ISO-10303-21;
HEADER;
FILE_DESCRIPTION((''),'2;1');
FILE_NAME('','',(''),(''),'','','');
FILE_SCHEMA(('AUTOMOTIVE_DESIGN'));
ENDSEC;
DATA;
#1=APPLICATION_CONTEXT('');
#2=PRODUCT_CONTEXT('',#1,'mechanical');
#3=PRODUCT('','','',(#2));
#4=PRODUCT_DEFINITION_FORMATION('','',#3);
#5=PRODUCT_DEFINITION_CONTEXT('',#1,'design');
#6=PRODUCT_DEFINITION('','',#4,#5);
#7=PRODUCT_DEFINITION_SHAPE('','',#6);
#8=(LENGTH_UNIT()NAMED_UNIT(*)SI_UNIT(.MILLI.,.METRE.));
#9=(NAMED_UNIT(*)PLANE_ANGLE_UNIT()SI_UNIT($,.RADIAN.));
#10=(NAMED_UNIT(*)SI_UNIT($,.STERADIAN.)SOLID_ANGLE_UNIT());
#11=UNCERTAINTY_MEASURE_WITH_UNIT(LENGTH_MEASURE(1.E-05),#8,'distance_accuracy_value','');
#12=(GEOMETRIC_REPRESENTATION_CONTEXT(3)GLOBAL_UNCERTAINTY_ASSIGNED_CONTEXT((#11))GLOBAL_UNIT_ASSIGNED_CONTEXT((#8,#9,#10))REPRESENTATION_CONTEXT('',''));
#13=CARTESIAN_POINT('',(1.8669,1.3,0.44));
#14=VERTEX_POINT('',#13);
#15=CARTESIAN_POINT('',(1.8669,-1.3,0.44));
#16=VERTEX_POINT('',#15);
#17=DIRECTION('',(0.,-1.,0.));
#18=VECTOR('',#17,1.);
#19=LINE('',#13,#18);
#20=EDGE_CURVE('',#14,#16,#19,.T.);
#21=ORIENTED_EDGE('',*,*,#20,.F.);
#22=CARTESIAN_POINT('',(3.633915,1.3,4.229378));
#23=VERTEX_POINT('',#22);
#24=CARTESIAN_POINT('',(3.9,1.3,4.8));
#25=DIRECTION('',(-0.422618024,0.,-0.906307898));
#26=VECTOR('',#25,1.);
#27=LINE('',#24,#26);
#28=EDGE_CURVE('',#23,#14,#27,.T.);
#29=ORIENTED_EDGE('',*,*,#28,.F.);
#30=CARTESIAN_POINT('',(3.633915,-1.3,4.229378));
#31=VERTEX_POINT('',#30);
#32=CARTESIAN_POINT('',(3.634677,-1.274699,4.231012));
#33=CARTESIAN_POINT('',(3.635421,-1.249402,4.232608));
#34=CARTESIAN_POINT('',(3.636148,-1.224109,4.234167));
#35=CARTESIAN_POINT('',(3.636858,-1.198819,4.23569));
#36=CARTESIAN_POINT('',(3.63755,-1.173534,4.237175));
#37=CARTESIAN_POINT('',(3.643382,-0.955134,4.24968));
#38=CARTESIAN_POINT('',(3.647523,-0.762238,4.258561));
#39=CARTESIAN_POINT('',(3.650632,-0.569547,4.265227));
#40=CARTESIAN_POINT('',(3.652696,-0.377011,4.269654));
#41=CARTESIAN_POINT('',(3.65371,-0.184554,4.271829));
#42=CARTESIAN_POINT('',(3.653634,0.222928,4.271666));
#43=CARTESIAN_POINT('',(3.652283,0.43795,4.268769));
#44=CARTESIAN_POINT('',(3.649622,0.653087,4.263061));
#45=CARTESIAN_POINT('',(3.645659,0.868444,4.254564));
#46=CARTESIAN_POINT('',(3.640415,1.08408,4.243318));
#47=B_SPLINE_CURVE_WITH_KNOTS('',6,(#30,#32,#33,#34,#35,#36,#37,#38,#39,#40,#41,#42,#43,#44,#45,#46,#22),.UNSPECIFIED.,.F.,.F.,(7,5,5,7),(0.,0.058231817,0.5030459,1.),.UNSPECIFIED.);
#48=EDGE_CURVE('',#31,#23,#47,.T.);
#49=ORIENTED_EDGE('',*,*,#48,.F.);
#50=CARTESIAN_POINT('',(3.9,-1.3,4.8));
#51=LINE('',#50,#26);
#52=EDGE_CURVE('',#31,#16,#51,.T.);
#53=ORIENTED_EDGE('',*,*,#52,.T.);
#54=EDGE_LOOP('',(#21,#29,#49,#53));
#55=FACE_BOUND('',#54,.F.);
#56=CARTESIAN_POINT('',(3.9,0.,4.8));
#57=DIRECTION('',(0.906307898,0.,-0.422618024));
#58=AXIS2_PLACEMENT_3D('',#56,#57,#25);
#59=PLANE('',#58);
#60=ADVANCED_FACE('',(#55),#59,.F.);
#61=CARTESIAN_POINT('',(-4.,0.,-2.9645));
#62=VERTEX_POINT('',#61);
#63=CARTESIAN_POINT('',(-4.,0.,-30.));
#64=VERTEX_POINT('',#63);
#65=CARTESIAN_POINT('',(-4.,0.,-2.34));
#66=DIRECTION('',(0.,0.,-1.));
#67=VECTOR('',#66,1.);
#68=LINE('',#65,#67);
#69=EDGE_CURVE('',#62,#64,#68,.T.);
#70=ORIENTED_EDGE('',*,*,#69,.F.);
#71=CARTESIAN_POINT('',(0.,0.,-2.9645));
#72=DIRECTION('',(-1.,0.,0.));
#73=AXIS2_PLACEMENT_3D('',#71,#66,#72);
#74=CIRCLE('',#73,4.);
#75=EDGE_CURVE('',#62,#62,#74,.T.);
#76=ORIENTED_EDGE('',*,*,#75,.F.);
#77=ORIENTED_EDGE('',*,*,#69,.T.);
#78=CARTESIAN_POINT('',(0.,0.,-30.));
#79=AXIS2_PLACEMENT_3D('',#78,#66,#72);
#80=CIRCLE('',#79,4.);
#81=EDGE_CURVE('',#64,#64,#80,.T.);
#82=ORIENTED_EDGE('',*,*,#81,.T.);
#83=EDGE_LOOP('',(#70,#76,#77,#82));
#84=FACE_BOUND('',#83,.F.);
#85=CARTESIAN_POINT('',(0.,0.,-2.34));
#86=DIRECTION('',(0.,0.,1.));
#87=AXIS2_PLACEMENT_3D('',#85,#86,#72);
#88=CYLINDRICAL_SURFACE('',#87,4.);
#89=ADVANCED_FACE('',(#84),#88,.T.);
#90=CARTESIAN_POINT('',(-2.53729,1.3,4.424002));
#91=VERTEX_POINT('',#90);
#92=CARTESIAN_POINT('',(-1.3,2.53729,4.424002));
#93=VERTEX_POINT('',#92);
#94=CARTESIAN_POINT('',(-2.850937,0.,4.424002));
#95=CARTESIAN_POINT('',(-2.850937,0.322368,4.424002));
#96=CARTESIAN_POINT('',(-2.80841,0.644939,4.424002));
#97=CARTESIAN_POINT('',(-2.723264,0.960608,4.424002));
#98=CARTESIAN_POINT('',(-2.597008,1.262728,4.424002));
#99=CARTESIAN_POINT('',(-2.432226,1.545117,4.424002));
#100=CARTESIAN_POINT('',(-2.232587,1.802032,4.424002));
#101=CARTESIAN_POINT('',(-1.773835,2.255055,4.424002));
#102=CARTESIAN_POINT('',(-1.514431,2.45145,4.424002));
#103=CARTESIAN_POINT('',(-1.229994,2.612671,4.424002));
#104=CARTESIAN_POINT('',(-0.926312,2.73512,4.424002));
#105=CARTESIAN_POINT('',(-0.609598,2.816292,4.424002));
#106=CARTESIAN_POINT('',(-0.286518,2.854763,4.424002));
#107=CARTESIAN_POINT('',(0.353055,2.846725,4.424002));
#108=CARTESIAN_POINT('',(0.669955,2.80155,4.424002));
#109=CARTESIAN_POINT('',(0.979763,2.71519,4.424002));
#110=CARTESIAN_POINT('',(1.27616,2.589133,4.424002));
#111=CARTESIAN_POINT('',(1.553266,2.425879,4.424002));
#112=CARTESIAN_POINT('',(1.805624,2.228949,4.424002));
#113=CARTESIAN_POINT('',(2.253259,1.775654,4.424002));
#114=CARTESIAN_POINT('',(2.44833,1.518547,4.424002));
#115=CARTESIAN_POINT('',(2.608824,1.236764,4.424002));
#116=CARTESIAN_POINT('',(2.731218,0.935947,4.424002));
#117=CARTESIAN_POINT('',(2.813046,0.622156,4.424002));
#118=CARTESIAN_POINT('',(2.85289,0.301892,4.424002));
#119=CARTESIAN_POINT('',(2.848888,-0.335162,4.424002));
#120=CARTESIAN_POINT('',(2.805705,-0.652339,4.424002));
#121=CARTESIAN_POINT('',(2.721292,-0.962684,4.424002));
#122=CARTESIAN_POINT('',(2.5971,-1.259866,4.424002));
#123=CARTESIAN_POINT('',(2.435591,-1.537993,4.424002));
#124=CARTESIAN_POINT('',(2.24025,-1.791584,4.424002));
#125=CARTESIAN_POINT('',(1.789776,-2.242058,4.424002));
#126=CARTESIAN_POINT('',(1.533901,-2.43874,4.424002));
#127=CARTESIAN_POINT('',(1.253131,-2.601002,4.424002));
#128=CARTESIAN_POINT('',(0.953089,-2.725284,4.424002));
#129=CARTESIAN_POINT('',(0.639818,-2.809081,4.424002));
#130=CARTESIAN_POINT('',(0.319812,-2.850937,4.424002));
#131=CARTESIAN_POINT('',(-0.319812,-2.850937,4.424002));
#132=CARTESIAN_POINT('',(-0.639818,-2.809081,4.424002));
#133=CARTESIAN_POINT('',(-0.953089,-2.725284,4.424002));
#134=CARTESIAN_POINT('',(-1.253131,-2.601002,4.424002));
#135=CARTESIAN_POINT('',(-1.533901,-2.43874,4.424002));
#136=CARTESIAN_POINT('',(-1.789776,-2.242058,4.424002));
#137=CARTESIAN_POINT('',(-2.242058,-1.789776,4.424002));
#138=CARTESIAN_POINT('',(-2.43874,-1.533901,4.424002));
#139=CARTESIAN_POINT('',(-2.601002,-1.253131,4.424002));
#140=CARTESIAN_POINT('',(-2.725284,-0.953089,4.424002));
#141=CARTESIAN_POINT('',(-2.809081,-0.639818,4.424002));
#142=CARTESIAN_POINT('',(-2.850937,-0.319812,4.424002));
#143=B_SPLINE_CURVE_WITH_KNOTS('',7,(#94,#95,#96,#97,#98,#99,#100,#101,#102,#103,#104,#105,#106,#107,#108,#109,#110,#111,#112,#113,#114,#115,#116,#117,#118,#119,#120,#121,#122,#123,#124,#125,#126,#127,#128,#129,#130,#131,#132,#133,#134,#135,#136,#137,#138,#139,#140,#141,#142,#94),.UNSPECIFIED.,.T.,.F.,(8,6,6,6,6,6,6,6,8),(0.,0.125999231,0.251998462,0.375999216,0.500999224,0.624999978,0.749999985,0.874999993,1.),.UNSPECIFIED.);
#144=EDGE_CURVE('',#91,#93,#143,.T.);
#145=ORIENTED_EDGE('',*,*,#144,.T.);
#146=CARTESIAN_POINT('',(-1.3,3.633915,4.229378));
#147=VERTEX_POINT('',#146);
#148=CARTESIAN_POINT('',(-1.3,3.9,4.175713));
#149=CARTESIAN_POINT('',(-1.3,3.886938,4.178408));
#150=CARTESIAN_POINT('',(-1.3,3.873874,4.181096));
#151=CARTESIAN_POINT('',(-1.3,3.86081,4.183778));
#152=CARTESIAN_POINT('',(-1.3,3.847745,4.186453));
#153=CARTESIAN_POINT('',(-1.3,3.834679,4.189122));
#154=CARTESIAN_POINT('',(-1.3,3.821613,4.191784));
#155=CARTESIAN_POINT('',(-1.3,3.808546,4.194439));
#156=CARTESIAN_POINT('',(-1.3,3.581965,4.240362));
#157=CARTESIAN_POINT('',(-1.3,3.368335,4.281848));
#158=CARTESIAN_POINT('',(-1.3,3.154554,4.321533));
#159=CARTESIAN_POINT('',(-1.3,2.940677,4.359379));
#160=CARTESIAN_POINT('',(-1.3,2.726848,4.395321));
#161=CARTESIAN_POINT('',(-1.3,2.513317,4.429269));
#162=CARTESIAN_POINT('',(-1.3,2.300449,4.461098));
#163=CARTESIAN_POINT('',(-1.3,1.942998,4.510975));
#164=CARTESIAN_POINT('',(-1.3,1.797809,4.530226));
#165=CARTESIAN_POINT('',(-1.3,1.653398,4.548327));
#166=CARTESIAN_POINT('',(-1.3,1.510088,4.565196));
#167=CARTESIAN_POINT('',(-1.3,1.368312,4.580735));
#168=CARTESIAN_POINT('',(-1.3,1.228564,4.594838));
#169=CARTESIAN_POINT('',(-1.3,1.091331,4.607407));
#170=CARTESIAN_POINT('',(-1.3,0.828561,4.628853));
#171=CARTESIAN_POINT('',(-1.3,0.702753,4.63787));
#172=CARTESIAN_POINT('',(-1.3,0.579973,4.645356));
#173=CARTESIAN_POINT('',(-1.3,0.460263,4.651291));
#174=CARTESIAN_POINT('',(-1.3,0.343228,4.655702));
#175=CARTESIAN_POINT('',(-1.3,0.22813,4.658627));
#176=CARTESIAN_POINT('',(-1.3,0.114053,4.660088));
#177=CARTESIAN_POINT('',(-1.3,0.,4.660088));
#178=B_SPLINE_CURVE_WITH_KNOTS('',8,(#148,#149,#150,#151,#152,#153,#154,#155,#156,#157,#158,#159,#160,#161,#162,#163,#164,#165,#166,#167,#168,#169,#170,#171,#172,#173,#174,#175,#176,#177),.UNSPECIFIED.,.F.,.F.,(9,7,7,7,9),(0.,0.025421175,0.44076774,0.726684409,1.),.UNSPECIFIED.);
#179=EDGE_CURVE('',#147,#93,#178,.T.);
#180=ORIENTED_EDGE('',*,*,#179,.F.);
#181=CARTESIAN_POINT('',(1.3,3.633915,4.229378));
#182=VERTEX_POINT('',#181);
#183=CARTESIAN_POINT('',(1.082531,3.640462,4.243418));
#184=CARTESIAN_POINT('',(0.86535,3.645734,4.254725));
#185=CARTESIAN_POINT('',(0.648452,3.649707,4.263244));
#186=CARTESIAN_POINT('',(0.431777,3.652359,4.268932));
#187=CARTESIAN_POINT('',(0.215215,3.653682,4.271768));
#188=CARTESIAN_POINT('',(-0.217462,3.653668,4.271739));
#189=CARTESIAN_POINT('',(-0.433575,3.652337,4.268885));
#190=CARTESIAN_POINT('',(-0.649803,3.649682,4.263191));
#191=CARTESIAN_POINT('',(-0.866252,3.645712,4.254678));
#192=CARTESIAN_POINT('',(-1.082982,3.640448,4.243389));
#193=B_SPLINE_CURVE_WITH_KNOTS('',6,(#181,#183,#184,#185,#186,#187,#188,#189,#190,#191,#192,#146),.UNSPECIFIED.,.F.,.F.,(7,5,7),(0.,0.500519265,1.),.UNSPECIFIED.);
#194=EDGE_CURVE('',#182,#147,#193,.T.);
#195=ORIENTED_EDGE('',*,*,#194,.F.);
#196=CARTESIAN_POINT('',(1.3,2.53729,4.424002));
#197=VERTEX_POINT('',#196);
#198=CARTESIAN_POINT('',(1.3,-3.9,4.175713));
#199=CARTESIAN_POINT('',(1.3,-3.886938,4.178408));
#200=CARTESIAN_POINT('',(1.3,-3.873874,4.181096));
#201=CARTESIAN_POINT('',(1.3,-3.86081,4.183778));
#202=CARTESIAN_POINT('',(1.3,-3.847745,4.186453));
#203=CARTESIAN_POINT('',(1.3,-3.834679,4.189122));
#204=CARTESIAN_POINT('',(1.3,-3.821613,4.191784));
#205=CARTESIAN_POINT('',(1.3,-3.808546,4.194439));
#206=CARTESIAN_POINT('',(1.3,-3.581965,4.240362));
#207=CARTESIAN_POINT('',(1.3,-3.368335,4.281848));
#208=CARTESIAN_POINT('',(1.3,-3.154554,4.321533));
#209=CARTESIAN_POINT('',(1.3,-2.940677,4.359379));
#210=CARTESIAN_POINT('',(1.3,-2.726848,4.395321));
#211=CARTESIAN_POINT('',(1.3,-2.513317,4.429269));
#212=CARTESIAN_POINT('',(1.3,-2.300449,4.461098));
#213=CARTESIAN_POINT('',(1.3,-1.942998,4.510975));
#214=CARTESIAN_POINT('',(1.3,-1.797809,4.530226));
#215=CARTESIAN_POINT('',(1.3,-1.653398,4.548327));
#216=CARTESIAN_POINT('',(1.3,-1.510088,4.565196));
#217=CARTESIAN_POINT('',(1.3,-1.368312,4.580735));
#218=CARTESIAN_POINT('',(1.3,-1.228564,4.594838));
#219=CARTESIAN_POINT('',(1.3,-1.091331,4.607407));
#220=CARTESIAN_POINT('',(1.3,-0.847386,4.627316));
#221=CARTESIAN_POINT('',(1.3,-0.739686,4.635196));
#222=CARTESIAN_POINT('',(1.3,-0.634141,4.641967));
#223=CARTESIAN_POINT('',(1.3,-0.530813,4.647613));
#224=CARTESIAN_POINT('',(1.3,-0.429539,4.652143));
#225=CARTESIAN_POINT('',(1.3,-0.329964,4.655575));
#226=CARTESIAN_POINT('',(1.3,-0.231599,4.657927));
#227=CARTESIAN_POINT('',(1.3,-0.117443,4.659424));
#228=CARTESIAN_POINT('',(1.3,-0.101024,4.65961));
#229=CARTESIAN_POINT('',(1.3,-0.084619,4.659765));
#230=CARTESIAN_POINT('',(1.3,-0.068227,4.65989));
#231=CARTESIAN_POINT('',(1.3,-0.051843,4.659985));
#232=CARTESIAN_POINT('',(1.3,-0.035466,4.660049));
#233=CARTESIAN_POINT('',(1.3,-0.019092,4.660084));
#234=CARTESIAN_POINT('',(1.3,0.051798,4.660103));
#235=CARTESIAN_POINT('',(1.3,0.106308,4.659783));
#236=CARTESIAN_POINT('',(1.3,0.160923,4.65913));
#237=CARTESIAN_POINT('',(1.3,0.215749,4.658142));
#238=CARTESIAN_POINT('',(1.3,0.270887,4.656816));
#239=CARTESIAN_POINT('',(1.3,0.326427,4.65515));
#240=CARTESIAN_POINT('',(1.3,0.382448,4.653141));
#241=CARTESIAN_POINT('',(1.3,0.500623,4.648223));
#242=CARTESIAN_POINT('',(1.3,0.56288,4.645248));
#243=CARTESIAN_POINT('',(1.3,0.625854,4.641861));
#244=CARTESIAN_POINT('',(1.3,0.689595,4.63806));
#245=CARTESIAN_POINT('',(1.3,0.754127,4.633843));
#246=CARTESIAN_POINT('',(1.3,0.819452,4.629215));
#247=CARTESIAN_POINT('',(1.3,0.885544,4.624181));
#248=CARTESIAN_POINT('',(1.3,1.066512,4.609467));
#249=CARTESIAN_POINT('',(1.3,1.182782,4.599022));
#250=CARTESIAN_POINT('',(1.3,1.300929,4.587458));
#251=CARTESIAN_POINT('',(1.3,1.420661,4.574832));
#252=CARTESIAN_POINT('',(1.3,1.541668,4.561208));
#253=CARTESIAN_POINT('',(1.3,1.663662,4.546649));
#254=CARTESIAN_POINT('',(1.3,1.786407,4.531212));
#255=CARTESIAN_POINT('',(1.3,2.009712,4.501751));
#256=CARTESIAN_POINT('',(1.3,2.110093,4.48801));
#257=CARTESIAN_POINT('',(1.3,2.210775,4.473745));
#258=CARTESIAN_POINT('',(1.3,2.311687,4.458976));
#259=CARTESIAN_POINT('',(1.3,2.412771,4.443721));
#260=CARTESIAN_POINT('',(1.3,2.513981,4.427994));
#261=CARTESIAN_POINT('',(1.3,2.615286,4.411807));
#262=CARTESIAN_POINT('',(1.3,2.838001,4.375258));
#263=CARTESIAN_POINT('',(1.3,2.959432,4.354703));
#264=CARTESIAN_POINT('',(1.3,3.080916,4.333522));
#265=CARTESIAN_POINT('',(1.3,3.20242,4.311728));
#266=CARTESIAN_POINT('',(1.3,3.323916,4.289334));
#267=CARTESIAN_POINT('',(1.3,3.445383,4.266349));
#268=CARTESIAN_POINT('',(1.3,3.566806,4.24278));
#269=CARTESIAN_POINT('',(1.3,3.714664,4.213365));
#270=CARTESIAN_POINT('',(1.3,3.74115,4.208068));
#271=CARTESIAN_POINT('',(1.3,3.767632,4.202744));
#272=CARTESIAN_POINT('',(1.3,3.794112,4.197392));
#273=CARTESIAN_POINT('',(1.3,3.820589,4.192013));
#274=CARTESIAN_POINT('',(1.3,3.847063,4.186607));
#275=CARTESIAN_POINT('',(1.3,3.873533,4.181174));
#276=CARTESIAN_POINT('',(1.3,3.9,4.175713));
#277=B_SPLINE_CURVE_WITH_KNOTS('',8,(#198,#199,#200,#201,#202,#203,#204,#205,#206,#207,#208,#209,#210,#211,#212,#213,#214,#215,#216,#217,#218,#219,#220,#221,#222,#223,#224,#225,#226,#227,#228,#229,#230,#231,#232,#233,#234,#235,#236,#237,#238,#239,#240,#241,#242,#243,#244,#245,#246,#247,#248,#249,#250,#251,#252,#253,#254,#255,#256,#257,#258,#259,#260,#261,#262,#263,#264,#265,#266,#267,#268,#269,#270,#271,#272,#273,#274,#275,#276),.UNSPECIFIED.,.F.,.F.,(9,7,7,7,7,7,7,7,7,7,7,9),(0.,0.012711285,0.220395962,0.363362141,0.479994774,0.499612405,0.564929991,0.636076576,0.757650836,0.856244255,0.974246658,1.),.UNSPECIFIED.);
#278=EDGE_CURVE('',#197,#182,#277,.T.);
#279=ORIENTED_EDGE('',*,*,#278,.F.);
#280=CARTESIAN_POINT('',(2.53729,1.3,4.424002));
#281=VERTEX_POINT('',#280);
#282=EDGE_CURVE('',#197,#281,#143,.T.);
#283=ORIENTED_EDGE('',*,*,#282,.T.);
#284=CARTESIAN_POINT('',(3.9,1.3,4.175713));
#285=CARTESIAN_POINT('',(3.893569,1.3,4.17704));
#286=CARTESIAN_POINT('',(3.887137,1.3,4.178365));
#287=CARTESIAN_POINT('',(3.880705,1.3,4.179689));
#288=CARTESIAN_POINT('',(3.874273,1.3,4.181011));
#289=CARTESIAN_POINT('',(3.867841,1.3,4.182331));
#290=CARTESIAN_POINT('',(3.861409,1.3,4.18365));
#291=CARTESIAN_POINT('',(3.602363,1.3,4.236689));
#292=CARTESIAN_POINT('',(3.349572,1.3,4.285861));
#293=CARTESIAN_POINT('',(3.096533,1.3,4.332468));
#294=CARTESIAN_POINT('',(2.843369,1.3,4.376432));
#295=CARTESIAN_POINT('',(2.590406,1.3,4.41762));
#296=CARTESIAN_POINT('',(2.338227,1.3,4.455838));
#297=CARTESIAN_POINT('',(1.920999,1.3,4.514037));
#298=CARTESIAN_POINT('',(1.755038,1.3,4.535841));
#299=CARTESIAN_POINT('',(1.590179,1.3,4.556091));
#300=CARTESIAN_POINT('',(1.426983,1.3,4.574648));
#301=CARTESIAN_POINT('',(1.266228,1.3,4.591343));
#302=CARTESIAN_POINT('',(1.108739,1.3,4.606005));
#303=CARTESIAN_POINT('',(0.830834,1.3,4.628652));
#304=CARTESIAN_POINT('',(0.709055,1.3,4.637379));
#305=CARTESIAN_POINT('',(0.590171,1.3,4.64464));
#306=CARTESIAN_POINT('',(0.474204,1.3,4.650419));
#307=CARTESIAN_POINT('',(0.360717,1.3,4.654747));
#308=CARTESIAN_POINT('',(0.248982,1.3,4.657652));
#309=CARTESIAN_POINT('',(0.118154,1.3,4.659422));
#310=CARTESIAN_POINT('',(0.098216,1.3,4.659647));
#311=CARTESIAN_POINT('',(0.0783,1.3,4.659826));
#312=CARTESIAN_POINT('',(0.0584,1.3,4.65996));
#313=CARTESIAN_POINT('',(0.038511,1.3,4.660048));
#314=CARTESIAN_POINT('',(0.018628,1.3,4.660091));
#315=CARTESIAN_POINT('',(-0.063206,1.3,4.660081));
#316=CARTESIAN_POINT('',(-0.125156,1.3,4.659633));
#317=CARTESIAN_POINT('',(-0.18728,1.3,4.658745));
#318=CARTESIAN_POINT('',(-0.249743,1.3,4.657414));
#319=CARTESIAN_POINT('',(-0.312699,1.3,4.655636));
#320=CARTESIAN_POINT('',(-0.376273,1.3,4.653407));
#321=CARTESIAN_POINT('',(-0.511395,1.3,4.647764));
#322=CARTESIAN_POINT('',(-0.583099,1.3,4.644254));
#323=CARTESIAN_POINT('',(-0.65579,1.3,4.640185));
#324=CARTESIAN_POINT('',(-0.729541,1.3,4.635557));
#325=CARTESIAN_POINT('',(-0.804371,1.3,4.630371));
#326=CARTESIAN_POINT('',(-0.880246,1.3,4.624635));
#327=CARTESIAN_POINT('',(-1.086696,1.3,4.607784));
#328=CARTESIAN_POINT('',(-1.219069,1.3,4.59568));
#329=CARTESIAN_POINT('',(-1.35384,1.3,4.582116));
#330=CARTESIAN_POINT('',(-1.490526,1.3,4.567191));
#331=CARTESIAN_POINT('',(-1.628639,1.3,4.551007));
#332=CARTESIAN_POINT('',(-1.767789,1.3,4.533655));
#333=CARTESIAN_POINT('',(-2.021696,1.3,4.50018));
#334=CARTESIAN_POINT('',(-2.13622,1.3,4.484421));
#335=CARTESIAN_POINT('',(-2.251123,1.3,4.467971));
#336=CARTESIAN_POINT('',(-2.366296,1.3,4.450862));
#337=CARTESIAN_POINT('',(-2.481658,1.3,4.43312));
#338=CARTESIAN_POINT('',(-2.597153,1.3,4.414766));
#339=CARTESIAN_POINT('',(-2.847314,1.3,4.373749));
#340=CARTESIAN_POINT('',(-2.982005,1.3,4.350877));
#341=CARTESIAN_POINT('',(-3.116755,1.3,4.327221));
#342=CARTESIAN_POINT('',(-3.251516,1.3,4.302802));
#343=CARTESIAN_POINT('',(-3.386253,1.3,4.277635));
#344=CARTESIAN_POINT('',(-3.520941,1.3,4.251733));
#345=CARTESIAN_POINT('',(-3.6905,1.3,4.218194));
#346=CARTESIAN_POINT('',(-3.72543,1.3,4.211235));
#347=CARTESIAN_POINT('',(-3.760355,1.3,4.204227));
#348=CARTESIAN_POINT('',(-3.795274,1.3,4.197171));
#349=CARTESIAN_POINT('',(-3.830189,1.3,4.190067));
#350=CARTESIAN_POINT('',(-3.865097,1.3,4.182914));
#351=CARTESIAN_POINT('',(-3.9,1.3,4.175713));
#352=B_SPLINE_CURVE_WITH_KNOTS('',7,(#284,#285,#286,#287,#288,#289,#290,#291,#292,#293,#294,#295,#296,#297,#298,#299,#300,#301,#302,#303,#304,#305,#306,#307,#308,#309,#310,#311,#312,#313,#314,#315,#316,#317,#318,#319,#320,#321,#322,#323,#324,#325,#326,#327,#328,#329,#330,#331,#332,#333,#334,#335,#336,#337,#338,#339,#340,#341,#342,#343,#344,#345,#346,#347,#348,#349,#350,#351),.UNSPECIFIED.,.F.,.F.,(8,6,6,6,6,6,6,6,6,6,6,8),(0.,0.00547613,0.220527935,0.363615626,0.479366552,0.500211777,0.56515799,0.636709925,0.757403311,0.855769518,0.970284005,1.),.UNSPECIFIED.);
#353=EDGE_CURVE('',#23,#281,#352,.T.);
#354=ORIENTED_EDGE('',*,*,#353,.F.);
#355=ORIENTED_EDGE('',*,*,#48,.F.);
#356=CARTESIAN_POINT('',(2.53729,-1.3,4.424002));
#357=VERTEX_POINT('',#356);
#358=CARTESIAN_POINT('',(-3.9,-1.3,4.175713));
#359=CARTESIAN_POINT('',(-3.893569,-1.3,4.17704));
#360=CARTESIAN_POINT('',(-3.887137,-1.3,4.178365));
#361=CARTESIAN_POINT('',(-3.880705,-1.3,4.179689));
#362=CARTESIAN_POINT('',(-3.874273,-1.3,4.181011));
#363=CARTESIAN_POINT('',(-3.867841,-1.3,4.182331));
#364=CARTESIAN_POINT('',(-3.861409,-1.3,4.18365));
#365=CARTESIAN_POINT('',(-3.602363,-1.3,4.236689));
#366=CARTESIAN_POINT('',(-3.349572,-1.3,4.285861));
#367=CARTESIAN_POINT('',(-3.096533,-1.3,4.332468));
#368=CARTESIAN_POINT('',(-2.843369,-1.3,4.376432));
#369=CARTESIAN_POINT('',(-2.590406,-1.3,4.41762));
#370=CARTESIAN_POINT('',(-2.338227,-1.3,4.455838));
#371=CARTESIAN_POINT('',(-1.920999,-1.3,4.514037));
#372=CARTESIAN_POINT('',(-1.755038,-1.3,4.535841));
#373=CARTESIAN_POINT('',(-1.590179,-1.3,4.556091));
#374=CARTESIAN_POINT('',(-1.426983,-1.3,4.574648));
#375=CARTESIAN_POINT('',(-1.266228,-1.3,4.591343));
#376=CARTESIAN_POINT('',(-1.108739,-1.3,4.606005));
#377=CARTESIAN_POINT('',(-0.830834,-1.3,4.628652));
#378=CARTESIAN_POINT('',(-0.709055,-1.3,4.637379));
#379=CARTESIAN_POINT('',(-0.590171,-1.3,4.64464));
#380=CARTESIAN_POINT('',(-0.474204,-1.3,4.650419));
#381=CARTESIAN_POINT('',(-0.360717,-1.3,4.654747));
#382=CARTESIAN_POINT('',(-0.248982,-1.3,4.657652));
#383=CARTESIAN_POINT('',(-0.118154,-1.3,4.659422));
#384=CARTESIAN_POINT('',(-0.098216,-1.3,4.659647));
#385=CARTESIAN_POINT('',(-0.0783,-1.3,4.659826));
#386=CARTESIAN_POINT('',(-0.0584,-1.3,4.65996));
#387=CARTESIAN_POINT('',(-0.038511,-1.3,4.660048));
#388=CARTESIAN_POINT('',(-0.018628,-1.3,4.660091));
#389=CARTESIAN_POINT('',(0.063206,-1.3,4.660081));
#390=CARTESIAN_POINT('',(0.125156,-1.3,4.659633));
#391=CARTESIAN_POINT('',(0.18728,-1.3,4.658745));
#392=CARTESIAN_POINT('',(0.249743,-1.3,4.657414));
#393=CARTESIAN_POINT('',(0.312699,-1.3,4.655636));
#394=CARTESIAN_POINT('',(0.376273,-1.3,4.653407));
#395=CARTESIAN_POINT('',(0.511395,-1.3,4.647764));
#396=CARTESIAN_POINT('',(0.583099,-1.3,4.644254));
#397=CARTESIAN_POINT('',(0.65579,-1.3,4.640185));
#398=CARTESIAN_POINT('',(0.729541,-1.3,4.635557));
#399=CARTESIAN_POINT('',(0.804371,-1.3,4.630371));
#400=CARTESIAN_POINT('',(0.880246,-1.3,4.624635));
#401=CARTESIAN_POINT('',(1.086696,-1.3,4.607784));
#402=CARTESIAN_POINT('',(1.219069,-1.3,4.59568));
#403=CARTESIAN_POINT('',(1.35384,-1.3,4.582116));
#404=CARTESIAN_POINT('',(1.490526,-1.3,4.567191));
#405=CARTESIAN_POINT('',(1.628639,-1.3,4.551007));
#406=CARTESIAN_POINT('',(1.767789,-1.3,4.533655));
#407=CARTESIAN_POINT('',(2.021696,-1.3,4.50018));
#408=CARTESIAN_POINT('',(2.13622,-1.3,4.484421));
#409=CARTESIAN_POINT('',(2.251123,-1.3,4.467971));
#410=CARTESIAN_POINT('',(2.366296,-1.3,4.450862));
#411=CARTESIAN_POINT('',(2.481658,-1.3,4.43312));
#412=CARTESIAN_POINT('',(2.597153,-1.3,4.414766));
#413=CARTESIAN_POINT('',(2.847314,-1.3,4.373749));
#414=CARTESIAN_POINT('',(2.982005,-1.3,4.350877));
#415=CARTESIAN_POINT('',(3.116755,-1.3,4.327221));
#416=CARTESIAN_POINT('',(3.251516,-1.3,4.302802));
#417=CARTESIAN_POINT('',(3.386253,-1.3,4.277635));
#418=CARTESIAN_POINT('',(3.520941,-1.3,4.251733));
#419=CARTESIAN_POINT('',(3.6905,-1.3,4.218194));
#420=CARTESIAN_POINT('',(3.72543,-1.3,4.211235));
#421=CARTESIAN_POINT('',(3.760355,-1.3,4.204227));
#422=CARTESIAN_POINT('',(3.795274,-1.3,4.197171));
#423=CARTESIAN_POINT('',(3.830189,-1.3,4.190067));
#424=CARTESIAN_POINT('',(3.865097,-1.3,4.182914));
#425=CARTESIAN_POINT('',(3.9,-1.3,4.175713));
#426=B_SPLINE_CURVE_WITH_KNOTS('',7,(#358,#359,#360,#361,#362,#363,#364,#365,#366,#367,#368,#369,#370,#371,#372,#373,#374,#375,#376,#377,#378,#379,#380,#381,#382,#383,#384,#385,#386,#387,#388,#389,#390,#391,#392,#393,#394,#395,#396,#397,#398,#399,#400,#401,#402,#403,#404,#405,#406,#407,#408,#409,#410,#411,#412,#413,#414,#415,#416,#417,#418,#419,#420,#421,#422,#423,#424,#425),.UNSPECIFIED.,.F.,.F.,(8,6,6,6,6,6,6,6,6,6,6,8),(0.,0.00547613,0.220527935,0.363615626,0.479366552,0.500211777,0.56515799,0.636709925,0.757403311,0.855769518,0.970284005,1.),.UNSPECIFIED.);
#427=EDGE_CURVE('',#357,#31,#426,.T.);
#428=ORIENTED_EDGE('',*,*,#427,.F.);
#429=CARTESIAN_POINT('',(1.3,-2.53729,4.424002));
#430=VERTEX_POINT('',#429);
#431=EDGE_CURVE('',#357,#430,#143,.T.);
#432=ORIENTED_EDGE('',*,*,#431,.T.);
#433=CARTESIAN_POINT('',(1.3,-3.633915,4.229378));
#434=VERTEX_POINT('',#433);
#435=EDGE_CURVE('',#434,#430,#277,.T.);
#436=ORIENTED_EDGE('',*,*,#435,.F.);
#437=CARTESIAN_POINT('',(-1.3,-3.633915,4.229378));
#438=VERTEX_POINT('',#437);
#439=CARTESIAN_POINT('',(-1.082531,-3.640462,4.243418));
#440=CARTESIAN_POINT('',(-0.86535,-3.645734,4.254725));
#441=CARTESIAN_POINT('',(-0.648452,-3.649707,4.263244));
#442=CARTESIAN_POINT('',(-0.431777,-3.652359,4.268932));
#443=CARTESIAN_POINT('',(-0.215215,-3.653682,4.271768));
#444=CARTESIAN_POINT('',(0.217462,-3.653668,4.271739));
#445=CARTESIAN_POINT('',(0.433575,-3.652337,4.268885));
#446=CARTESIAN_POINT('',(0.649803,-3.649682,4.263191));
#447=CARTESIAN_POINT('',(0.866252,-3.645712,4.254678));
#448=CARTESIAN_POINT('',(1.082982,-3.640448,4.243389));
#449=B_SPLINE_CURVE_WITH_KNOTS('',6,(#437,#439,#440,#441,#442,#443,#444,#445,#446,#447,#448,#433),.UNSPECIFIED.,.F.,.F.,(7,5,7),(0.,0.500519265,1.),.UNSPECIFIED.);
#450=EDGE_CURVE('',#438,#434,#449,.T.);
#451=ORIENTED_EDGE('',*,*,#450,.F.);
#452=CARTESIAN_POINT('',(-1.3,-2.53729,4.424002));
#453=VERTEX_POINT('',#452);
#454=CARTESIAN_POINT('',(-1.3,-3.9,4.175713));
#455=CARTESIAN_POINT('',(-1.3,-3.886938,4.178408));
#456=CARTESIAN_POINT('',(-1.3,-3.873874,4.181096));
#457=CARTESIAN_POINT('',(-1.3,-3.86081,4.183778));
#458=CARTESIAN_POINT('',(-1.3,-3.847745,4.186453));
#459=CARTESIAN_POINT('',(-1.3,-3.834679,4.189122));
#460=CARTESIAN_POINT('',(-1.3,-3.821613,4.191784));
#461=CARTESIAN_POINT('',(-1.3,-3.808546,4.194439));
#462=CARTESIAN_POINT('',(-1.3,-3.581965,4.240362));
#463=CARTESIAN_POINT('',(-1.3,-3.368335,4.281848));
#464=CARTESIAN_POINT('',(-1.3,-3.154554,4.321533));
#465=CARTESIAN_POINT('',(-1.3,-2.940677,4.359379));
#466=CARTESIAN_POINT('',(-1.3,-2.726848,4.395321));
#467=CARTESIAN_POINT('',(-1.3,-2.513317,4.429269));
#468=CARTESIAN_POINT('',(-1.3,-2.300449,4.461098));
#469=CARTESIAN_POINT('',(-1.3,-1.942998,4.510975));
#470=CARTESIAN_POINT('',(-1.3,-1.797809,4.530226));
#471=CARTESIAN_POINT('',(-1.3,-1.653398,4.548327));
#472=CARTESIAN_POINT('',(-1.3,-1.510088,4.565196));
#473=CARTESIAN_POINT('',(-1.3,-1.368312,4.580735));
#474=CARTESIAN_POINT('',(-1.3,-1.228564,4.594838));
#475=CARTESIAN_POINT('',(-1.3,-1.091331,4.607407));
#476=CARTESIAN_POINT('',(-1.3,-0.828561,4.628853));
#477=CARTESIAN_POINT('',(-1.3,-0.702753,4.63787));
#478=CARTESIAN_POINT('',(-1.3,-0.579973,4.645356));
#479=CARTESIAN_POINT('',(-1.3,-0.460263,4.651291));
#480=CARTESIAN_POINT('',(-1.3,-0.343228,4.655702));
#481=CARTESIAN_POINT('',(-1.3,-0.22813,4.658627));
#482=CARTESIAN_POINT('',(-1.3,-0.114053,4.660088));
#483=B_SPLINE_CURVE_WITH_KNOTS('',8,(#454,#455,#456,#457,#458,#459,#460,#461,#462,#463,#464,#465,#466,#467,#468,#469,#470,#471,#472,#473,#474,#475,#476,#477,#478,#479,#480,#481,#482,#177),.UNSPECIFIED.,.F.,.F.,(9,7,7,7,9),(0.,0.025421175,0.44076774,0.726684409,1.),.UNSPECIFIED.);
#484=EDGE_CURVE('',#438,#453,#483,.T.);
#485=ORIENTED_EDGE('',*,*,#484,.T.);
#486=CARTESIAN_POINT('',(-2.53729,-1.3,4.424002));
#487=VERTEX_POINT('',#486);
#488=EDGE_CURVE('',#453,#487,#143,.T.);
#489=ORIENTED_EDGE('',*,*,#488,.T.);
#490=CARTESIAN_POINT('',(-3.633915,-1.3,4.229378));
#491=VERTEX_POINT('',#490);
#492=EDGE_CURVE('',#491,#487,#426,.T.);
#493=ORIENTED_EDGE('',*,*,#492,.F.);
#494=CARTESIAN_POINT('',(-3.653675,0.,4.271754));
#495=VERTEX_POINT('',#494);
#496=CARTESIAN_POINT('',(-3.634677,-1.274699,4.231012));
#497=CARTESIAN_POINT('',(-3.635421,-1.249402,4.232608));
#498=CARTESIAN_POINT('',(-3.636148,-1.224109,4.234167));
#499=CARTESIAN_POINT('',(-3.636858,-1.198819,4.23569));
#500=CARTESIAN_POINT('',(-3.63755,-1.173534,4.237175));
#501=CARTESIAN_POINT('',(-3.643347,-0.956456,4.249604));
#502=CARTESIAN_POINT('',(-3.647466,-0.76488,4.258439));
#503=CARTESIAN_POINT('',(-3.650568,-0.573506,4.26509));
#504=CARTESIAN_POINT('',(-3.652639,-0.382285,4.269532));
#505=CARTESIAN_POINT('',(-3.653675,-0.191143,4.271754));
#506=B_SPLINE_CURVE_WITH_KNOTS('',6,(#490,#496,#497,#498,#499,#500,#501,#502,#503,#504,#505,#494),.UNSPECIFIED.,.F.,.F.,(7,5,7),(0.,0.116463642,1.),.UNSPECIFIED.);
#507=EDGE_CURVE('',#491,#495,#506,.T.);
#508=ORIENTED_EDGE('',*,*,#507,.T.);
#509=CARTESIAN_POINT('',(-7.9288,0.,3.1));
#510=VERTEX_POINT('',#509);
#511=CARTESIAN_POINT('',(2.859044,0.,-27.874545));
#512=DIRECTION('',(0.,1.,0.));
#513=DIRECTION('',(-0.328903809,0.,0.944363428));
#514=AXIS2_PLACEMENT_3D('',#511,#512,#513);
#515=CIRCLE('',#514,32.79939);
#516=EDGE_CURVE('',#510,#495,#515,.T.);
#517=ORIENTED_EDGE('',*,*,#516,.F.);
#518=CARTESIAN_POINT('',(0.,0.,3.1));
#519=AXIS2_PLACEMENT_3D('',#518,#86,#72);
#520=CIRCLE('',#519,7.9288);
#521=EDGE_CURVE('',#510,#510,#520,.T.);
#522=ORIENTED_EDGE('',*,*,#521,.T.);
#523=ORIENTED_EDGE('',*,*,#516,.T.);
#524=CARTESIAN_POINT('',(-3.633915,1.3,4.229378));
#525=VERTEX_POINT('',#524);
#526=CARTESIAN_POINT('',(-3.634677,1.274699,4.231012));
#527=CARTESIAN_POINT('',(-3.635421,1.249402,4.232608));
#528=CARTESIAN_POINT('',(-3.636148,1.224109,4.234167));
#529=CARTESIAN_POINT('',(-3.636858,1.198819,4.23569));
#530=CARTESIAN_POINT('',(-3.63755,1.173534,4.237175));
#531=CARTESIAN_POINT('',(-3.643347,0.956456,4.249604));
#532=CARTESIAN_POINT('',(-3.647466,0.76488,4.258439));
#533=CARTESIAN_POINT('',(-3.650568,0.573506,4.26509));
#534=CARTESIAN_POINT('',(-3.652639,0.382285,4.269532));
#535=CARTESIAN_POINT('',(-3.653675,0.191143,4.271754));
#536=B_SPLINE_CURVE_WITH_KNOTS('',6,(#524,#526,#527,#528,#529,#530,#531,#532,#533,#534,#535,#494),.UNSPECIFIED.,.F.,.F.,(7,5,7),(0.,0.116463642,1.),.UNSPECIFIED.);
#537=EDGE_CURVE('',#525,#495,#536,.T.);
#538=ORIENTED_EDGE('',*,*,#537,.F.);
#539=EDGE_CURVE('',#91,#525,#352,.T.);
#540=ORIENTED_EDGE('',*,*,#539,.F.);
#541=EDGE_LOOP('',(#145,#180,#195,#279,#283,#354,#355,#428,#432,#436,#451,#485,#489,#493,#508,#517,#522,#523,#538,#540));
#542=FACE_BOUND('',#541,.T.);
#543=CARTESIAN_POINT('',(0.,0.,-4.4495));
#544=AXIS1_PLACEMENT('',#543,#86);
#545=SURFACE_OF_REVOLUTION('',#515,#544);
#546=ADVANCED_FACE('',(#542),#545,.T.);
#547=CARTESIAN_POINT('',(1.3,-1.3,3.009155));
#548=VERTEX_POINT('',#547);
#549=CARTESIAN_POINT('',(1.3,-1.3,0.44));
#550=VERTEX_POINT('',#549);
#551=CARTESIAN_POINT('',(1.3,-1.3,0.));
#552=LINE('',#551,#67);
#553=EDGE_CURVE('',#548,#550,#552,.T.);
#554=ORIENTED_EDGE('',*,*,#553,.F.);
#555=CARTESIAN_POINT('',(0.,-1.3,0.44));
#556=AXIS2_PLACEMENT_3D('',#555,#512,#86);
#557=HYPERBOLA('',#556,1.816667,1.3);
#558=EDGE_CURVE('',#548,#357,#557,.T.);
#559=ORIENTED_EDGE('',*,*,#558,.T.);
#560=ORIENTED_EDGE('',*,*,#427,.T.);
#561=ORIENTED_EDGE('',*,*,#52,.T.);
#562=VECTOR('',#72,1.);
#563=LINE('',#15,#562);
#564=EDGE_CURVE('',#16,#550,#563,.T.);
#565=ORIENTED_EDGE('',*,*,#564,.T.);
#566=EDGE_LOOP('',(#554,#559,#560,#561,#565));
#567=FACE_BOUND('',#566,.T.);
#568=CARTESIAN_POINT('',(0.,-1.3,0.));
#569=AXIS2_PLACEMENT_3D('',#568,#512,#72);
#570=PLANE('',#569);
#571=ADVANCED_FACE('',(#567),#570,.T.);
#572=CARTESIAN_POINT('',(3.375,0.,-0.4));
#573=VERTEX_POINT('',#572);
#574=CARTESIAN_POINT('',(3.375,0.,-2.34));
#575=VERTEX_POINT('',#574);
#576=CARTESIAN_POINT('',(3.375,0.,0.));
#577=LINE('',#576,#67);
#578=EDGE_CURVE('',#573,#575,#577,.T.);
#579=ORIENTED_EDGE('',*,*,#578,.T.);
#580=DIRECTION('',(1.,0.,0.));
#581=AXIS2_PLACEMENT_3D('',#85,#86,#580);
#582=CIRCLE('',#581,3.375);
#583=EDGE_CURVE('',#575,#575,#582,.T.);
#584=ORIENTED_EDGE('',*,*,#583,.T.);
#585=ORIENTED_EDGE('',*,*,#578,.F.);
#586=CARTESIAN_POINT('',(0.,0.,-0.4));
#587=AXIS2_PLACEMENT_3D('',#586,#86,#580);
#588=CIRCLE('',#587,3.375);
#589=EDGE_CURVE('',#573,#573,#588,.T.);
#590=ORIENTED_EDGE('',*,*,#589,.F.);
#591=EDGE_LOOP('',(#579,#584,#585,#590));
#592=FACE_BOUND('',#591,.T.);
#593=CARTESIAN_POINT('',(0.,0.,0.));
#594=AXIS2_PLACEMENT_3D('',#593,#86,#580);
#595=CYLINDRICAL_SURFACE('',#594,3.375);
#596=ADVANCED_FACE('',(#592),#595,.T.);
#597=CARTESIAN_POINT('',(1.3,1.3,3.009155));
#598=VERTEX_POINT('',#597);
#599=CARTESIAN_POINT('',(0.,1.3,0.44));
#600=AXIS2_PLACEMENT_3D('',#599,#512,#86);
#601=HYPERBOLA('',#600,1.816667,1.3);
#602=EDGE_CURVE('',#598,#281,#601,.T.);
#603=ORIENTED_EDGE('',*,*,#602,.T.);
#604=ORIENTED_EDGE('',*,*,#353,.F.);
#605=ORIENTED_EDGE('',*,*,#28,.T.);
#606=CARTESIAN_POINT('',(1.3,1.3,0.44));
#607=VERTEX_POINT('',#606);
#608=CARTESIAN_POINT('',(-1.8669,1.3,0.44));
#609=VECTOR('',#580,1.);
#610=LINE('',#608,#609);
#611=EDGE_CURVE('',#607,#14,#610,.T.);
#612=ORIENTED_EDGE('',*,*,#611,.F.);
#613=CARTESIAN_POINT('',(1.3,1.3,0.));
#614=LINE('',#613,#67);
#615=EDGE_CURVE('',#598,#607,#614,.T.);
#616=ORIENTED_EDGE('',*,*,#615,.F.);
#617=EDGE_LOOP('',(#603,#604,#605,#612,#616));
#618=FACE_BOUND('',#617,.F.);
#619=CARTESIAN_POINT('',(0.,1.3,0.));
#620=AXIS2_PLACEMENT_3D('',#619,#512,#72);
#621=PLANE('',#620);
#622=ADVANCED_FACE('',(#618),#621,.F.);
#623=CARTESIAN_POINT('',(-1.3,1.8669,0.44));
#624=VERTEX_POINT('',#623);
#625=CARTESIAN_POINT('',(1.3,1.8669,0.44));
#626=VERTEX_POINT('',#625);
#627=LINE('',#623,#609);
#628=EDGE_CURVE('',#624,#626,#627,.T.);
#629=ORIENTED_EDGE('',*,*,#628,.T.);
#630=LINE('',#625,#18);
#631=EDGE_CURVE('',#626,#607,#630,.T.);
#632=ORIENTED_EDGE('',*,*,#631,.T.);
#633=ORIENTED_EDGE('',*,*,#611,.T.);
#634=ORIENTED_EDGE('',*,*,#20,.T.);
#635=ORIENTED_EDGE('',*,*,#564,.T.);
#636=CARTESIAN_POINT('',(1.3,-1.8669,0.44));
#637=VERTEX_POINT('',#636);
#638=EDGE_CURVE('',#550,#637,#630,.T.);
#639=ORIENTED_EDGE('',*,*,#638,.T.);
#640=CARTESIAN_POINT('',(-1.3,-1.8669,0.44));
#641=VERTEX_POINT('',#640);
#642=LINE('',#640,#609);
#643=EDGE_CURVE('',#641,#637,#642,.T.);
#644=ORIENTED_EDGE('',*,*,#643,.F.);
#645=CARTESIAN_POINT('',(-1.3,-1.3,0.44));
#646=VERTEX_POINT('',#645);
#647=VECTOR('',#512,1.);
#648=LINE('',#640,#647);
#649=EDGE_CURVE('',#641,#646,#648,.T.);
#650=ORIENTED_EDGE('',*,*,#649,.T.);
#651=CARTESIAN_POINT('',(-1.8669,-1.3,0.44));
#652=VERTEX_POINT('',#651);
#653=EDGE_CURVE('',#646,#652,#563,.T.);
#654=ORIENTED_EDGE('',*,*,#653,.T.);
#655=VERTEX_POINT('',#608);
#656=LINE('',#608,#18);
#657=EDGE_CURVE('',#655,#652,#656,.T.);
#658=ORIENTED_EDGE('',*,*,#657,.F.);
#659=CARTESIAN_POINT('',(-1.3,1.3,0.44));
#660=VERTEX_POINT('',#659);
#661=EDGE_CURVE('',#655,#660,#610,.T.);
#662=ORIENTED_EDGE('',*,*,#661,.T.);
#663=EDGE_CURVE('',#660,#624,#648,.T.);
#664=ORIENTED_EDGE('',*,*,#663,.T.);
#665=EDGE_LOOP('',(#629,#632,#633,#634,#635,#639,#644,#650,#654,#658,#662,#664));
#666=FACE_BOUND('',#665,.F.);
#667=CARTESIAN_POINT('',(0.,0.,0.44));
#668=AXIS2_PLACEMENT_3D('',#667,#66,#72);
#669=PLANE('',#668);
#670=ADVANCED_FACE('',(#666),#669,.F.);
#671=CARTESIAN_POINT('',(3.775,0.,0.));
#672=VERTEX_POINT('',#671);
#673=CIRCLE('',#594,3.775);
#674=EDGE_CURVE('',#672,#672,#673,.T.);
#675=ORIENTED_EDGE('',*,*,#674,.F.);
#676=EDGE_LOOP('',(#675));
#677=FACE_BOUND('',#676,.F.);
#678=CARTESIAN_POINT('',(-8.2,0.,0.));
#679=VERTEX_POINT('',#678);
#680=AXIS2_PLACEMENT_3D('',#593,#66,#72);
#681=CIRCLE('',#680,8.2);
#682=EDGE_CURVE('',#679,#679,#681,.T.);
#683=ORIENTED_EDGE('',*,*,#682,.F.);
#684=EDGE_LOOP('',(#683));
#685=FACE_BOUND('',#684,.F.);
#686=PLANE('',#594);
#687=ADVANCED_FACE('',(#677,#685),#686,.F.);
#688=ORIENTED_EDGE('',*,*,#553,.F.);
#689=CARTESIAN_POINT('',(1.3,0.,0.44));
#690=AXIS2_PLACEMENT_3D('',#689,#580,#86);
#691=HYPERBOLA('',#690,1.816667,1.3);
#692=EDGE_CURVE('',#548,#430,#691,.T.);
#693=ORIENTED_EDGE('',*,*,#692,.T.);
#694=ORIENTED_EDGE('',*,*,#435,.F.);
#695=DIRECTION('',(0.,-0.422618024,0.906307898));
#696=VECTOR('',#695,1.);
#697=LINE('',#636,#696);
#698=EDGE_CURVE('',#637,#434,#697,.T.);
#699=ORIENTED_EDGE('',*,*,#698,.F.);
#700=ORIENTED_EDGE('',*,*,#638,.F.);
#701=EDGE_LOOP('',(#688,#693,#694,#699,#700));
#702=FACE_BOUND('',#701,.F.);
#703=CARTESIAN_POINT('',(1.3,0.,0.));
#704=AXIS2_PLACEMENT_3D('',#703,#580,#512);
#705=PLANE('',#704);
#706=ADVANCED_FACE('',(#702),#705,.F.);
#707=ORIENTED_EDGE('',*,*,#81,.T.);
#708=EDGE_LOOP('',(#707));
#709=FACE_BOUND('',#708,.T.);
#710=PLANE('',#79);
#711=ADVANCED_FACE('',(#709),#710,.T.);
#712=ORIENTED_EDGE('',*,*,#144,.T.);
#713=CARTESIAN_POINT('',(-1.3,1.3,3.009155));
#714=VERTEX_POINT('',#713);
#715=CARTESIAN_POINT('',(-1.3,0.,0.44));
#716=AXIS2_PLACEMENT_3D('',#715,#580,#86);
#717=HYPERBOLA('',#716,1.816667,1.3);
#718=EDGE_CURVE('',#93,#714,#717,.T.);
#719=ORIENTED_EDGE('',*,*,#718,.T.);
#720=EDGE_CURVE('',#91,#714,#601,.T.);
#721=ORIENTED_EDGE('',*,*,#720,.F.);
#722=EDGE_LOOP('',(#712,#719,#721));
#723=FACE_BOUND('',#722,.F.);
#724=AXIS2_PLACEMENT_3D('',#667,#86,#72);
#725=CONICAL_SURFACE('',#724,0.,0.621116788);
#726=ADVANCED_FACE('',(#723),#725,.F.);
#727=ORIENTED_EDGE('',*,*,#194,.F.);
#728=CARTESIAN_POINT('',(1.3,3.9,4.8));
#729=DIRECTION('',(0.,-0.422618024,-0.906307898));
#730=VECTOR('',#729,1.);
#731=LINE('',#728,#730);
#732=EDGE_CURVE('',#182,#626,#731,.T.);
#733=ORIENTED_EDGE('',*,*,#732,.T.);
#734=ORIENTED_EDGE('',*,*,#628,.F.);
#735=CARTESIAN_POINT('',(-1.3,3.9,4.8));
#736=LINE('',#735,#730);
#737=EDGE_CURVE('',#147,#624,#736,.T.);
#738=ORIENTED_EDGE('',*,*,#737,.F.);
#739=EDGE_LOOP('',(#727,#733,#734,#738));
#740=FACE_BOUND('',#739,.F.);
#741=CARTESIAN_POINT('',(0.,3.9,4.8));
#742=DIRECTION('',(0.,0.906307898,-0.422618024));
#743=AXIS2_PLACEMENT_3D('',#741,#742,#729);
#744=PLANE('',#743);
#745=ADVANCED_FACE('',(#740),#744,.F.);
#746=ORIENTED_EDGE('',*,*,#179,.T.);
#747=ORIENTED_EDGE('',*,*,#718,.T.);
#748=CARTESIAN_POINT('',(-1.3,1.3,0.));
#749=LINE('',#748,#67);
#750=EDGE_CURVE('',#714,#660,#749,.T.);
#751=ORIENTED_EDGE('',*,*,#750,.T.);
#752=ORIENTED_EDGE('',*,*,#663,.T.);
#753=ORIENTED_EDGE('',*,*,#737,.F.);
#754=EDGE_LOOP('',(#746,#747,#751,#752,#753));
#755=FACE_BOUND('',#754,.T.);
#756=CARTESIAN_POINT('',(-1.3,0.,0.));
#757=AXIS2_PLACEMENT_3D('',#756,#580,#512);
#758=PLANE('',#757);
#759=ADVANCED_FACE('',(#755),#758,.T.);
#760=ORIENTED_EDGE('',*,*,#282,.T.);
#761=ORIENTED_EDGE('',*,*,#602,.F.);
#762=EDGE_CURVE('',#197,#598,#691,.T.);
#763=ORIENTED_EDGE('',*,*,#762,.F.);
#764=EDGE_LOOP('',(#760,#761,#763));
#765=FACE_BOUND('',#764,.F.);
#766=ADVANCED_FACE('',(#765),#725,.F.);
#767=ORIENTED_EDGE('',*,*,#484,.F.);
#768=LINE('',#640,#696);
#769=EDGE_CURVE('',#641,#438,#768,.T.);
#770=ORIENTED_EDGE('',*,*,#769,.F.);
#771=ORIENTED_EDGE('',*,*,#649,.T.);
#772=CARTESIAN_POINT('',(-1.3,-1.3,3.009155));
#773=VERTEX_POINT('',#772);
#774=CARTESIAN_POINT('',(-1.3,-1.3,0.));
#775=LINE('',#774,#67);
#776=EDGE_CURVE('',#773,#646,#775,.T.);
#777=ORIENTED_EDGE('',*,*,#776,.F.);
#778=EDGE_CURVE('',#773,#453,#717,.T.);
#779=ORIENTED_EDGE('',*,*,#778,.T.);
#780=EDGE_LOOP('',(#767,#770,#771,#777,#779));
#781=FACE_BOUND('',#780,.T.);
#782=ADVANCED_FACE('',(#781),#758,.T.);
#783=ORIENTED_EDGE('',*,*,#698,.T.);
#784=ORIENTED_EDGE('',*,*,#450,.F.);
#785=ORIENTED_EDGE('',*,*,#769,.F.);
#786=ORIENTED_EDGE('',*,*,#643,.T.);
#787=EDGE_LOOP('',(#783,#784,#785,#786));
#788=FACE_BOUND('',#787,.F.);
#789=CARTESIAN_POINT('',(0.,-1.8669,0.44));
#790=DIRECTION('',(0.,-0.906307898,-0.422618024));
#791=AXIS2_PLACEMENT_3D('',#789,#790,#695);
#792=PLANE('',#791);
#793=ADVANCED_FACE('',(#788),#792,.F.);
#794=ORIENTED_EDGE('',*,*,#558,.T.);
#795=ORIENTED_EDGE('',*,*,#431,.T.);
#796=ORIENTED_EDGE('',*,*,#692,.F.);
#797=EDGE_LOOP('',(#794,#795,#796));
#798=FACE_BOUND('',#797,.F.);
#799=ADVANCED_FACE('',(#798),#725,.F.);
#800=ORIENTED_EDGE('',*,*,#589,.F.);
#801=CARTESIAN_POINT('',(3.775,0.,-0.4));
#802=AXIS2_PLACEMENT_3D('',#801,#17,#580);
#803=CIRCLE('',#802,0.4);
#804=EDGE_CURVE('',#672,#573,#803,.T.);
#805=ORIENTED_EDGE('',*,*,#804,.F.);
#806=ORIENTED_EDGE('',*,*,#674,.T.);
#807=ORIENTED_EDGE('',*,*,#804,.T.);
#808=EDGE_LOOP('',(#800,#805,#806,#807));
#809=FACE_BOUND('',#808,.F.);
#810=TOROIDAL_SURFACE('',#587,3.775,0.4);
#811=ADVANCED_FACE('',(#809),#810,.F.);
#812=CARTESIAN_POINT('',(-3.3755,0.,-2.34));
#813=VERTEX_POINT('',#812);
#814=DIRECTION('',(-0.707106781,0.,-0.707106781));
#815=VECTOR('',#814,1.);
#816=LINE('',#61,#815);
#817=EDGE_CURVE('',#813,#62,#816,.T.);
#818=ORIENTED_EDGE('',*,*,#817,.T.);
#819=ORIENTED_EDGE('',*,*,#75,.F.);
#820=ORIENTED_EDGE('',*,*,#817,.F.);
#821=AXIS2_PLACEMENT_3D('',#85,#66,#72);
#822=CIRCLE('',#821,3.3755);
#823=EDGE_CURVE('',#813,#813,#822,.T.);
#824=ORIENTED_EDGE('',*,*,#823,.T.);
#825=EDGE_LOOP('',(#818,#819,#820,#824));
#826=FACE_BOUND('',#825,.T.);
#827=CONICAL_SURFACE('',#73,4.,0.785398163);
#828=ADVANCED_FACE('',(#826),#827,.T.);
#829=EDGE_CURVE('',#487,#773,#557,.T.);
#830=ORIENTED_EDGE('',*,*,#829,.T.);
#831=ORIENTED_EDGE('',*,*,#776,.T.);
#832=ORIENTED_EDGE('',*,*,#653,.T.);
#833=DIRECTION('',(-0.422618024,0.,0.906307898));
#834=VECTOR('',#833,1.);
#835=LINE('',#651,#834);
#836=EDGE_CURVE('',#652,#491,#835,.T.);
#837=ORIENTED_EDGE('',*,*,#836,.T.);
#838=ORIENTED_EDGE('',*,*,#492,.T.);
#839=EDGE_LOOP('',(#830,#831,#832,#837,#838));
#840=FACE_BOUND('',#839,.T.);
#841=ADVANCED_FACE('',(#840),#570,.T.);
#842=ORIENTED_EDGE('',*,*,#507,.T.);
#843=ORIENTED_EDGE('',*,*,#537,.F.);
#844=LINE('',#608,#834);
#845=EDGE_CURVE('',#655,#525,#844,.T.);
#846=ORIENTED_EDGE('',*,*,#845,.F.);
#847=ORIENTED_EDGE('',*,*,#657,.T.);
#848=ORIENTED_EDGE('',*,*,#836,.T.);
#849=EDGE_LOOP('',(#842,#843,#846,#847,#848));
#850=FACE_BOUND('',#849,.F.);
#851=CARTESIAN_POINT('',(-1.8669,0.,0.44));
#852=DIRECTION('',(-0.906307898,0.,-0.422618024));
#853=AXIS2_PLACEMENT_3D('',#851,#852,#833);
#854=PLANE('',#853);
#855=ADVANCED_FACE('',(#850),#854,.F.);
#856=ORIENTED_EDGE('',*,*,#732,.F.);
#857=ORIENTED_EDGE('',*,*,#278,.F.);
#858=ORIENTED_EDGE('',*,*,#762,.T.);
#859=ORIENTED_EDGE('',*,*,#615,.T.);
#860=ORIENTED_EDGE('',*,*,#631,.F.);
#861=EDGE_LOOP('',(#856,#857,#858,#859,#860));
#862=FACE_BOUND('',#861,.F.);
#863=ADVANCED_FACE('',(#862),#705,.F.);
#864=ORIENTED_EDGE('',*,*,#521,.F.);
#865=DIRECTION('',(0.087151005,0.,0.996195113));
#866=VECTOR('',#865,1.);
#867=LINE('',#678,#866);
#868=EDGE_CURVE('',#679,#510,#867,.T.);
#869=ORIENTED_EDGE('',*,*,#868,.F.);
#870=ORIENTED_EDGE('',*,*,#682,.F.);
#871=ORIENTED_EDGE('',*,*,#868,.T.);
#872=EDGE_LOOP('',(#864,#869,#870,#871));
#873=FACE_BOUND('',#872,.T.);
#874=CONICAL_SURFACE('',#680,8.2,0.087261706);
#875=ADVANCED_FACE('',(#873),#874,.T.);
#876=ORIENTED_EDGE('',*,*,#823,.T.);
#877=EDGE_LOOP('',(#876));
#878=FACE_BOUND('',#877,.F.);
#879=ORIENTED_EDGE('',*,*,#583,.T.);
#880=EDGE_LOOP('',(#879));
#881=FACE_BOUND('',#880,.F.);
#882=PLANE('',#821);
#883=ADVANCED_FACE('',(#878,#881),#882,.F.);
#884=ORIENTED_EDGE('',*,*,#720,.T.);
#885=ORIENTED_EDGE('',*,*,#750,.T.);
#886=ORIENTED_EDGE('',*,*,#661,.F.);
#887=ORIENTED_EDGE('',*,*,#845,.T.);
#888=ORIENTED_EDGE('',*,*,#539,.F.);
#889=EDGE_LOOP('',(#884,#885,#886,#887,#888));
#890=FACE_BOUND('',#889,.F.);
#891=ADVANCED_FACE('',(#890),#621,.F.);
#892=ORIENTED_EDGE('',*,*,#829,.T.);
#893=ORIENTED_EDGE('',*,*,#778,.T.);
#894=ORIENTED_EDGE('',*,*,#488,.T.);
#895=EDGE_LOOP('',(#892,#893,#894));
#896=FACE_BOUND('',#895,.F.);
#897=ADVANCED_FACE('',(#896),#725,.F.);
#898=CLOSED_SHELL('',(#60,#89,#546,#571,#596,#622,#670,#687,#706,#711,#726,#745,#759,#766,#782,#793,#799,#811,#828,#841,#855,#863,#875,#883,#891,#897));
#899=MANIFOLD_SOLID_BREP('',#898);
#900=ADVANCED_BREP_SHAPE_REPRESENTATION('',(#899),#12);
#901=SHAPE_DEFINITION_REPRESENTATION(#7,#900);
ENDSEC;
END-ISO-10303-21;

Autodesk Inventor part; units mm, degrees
ref_plane "YZ Plane" through (0, 0, 0) normal (1, 0, 0) x (0, 1, 0)
sketch "Эскиз2" plane through (0, 0, 0) normal (0, 0, 1) x (1, 0, 0)
  circle A0 centre (0, 0) radius 3.375
  dimension "d3" = 6.75
extrude "Выдавливание1" add sketch "Эскиз2" against normal blind 2.34
sketch "Эскиз3" plane through (0, 0, -2.34) normal (0, 0, -1) x (-1, 0, 0)
  circle A0 centre (0, 0) radius 4
  circle A1 centre (0, 0) radius 3.375 construction
  dimension "d28" = 360
  dimension "d9" = 8
extrude "Выдавливание2" add sketch "Эскиз3" along normal blind 27.66
chamfer "Фаска1" distance 0.625 distance2 0.625 1 edges at (4, 0, -2.34) measured on face at (-3.7202, -0.5883, -2.34)
sketch "Эскиз4" plane through (0, 0, 0) normal (0, 0, 1) x (1, 0, 0)
  circle A0 centre (0, 0) radius 8.2
  circle A1 centre (0, 0) radius 3.375 construction
  dimension "d15" = 16.4
extrude "Выдавливание3" add sketch "Эскиз4" along normal blind 3.1
fillet "Сопряжение1" radius 0.4 1 edges at (-3.375, 0, 0)
sketch "Эскиз5" plane through (0, 0, 0) normal (0, 1, 0) x (-1, 0, 0)
  line L0 (8.2, 3.1) -> (8.2, 0)
  line L1 (7.9288, 3.1) -> (8.2, 3.1)
  line L2 (8.2, 0) -> (7.9288, 3.1)
  line L3 (-8.2, 3.1) -> (8.2, 3.1) construction
  line L4 (-8.2, 0) -> (8.2, 0) construction
  line L5 (0, -0.62) -> (0, 3.72) projected
  line L6 (11.48, 0) -> (-11.48, 0) projected
  dimension "d20" = 5
  dimension "d56" = 8.2
  dimension "d57" = 3.1
revolve "Вращение1" cut sketch "Эскиз5" angle 360 about axis through (0, 0, -10) along (0, 0, 1)
sketch "Эскиз6" plane through (0, 0, 0) normal (0, 1, 0) x (-1, 0, 0)
  line L0 (0, 4.8) -> (0, 3.1)
  arc A0 (7.9288, 3.1) -> (0, 4.8) centre (-2.8592, -27.8751) ccw
  line L1 (0, 3.1) -> (7.9288, 3.1)
  line L2 (7.9288, 3.1) -> (-7.9288, 3.1) construction
  line L3 (0, -4.4495) -> (0, 0.4495)
  line L4 (0, -34.4594) -> (0, 11.6302) projected
  line L5 (11.1636, 0) -> (-11.1108, 0) projected
  dimension "d58" = 1.7
  dimension "d59" = 7.9288
  dimension "d60" = 0
  dimension "d62" = 32.8
revolve "Вращение2" add sketch "Эскиз6" angle 360 about axis through (0, 0, -4.4495) along (0, 0, 1)
sketch "Эскиз7" plane through (0, 0, 0) normal (0, 1, 0) x (-1, 0, 0)
  line L0 (3.9, 4.8) -> (-3.9, 4.8)
  line L1 (1.8669, 0.44) -> (3.9, 4.8)
  line L2 (-1.8669, 0.44) -> (1.8669, 0.44)
  line L3 (-3.9, 4.8) -> (-1.8669, 0.44)
  line L4 (0, -0.432) -> (0, 5.672) projected
  line L5 (5.46, 0) -> (-5.46, 0) projected
  dimension "d32" = 4.36
  dimension "d34" = 65
  dimension "d36" = 65
  dimension "d63" = 3.9
  dimension "d64" = 4.8
  dimension "d65" = 7.8
extrude "Выдавливание4" cut sketch "Эскиз7" against normal mid plane 2.6
sketch "Эскиз8" plane through (0, 0, 0) normal (1, 0, 0) x (0, 1, 0)
  line L0 (-1.8669, 0.44) -> (-3.9, 4.8)
  line L1 (1.8669, 0.44) -> (-1.8669, 0.44)
  line L2 (3.9, 4.8) -> (1.8669, 0.44)
  line L3 (-3.9, 4.8) -> (3.9, 4.8)
  line L4 (0, -0.432) -> (0, 5.672) projected
  line L5 (-5.46, 0) -> (5.46, 0) projected
  dimension "d40" = 65
  dimension "d42" = 65
  dimension "d44" = 4.36
  dimension "d66" = 7.8
  dimension "d67" = 4.8
  dimension "d69" = 3.9
extrude "Выдавливание5" cut sketch "Эскиз8" along normal mid plane 2.6
sketch "Эскиз9" plane through (0, 0, 0) normal (0, 1, 0) x (-1, 0, 0)
  line L0 (0, 4.8) -> (0, 0.44)
  line L1 (3.12, 4.8) -> (0, 4.8)
  line L2 (0, 0.44) -> (3.12, 4.8)
  line L3 (-8.2, 0) -> (8.2, 0) construction
  line L4 (0, -0.96) -> (0, 5.76) projected
  line L5 (11.48, 0) -> (-11.48, 0) projected
  dimension "d50" = 4.36
  dimension "d52" = 4.36
  dimension "d54" = 3.12
  dimension "d70" = 0
  dimension "d71" = 4.8
revolve "Вращение3" cut sketch "Эскиз9" angle 360 about axis through (0, 0, -10) along (0, 0, 1)
thread "Резьба1" size "M8x1.25" class "6g" standard "ISO Metric profile" full length
ref_plane "MSC_PF1" through (0, 0, 0) normal (1, 0, 0) x (0, 1, 0)
ref_plane "MSC_PT1" through (0, 0, 0) normal (0, 0, -1) x (-1, 0, 0)
equation "\"d4\" = -b + NLG"
equation "\"d9\" = NND"
equation "\"d10\" = b"
equation "\"d12\" = -0.5 * msp_ds + 0.5 * NND"
equation "\"d13\" = 0.5 * NND - 0.5 * msp_ds"
equation "\"d15\" = Dk"
equation "\"d16\" = ParK"
equation "\"d18\" = r"
equation "\"d32\" = q"
equation "\"d63\" = 0.5 * M"
equation "\"d64\" = ParK + ParF"
equation "\"d65\" = M"
equation "\"d37\" = 2 * msp_s"
equation "\"d44\" = q"
equation "\"d66\" = M"
equation "\"d67\" = ParK + ParF"
equation "\"d69\" = 0.5 * M"
equation "\"d47\" = 2 * msp_s"
equation "\"d3\" = msp_ds"
equation "\"d56\" = 0.5 * Dk"
equation "\"d57\" = ParK"
equation "\"d58\" = ParF"
equation "\"d59\" = 0.5 * Dk - msp_v"
equation "\"d62\" = 2 * Dk"
equation "\"d50\" = q"
equation "\"d52\" = q"
equation "\"d54\" = msp_rr"
equation "\"d71\" = ParK + ParF"
equation "\"PTC\" = 1.25"
equation "\"NLG\" = 30"
equation "\"Dk\" = 16.4"
equation "\"ParK\" = 3.1"
equation "\"NND\" = 8"
equation "\"M\" = 7.8"
equation "\"q\" = 4.36"
equation "\"r\" = 0.4"
equation "\"msp_ds\" = NND - PTC"
equation "\"b\" = 27.66"
equation "\"msp_x\" = 1.25 * PTC"
equation "\"msp_s\" = 0.166667 * M"
equation "\"msp_rr\" = 0.4 * M"
equation "\"ParF\" = 1.7"
equation "\"msp_v\" = 0.0874887 * ParK"
equation "\"THREADDIA\" = NND"
properties part number "JIS B 1111 - M8x30" material "Сталь, мягкая"
